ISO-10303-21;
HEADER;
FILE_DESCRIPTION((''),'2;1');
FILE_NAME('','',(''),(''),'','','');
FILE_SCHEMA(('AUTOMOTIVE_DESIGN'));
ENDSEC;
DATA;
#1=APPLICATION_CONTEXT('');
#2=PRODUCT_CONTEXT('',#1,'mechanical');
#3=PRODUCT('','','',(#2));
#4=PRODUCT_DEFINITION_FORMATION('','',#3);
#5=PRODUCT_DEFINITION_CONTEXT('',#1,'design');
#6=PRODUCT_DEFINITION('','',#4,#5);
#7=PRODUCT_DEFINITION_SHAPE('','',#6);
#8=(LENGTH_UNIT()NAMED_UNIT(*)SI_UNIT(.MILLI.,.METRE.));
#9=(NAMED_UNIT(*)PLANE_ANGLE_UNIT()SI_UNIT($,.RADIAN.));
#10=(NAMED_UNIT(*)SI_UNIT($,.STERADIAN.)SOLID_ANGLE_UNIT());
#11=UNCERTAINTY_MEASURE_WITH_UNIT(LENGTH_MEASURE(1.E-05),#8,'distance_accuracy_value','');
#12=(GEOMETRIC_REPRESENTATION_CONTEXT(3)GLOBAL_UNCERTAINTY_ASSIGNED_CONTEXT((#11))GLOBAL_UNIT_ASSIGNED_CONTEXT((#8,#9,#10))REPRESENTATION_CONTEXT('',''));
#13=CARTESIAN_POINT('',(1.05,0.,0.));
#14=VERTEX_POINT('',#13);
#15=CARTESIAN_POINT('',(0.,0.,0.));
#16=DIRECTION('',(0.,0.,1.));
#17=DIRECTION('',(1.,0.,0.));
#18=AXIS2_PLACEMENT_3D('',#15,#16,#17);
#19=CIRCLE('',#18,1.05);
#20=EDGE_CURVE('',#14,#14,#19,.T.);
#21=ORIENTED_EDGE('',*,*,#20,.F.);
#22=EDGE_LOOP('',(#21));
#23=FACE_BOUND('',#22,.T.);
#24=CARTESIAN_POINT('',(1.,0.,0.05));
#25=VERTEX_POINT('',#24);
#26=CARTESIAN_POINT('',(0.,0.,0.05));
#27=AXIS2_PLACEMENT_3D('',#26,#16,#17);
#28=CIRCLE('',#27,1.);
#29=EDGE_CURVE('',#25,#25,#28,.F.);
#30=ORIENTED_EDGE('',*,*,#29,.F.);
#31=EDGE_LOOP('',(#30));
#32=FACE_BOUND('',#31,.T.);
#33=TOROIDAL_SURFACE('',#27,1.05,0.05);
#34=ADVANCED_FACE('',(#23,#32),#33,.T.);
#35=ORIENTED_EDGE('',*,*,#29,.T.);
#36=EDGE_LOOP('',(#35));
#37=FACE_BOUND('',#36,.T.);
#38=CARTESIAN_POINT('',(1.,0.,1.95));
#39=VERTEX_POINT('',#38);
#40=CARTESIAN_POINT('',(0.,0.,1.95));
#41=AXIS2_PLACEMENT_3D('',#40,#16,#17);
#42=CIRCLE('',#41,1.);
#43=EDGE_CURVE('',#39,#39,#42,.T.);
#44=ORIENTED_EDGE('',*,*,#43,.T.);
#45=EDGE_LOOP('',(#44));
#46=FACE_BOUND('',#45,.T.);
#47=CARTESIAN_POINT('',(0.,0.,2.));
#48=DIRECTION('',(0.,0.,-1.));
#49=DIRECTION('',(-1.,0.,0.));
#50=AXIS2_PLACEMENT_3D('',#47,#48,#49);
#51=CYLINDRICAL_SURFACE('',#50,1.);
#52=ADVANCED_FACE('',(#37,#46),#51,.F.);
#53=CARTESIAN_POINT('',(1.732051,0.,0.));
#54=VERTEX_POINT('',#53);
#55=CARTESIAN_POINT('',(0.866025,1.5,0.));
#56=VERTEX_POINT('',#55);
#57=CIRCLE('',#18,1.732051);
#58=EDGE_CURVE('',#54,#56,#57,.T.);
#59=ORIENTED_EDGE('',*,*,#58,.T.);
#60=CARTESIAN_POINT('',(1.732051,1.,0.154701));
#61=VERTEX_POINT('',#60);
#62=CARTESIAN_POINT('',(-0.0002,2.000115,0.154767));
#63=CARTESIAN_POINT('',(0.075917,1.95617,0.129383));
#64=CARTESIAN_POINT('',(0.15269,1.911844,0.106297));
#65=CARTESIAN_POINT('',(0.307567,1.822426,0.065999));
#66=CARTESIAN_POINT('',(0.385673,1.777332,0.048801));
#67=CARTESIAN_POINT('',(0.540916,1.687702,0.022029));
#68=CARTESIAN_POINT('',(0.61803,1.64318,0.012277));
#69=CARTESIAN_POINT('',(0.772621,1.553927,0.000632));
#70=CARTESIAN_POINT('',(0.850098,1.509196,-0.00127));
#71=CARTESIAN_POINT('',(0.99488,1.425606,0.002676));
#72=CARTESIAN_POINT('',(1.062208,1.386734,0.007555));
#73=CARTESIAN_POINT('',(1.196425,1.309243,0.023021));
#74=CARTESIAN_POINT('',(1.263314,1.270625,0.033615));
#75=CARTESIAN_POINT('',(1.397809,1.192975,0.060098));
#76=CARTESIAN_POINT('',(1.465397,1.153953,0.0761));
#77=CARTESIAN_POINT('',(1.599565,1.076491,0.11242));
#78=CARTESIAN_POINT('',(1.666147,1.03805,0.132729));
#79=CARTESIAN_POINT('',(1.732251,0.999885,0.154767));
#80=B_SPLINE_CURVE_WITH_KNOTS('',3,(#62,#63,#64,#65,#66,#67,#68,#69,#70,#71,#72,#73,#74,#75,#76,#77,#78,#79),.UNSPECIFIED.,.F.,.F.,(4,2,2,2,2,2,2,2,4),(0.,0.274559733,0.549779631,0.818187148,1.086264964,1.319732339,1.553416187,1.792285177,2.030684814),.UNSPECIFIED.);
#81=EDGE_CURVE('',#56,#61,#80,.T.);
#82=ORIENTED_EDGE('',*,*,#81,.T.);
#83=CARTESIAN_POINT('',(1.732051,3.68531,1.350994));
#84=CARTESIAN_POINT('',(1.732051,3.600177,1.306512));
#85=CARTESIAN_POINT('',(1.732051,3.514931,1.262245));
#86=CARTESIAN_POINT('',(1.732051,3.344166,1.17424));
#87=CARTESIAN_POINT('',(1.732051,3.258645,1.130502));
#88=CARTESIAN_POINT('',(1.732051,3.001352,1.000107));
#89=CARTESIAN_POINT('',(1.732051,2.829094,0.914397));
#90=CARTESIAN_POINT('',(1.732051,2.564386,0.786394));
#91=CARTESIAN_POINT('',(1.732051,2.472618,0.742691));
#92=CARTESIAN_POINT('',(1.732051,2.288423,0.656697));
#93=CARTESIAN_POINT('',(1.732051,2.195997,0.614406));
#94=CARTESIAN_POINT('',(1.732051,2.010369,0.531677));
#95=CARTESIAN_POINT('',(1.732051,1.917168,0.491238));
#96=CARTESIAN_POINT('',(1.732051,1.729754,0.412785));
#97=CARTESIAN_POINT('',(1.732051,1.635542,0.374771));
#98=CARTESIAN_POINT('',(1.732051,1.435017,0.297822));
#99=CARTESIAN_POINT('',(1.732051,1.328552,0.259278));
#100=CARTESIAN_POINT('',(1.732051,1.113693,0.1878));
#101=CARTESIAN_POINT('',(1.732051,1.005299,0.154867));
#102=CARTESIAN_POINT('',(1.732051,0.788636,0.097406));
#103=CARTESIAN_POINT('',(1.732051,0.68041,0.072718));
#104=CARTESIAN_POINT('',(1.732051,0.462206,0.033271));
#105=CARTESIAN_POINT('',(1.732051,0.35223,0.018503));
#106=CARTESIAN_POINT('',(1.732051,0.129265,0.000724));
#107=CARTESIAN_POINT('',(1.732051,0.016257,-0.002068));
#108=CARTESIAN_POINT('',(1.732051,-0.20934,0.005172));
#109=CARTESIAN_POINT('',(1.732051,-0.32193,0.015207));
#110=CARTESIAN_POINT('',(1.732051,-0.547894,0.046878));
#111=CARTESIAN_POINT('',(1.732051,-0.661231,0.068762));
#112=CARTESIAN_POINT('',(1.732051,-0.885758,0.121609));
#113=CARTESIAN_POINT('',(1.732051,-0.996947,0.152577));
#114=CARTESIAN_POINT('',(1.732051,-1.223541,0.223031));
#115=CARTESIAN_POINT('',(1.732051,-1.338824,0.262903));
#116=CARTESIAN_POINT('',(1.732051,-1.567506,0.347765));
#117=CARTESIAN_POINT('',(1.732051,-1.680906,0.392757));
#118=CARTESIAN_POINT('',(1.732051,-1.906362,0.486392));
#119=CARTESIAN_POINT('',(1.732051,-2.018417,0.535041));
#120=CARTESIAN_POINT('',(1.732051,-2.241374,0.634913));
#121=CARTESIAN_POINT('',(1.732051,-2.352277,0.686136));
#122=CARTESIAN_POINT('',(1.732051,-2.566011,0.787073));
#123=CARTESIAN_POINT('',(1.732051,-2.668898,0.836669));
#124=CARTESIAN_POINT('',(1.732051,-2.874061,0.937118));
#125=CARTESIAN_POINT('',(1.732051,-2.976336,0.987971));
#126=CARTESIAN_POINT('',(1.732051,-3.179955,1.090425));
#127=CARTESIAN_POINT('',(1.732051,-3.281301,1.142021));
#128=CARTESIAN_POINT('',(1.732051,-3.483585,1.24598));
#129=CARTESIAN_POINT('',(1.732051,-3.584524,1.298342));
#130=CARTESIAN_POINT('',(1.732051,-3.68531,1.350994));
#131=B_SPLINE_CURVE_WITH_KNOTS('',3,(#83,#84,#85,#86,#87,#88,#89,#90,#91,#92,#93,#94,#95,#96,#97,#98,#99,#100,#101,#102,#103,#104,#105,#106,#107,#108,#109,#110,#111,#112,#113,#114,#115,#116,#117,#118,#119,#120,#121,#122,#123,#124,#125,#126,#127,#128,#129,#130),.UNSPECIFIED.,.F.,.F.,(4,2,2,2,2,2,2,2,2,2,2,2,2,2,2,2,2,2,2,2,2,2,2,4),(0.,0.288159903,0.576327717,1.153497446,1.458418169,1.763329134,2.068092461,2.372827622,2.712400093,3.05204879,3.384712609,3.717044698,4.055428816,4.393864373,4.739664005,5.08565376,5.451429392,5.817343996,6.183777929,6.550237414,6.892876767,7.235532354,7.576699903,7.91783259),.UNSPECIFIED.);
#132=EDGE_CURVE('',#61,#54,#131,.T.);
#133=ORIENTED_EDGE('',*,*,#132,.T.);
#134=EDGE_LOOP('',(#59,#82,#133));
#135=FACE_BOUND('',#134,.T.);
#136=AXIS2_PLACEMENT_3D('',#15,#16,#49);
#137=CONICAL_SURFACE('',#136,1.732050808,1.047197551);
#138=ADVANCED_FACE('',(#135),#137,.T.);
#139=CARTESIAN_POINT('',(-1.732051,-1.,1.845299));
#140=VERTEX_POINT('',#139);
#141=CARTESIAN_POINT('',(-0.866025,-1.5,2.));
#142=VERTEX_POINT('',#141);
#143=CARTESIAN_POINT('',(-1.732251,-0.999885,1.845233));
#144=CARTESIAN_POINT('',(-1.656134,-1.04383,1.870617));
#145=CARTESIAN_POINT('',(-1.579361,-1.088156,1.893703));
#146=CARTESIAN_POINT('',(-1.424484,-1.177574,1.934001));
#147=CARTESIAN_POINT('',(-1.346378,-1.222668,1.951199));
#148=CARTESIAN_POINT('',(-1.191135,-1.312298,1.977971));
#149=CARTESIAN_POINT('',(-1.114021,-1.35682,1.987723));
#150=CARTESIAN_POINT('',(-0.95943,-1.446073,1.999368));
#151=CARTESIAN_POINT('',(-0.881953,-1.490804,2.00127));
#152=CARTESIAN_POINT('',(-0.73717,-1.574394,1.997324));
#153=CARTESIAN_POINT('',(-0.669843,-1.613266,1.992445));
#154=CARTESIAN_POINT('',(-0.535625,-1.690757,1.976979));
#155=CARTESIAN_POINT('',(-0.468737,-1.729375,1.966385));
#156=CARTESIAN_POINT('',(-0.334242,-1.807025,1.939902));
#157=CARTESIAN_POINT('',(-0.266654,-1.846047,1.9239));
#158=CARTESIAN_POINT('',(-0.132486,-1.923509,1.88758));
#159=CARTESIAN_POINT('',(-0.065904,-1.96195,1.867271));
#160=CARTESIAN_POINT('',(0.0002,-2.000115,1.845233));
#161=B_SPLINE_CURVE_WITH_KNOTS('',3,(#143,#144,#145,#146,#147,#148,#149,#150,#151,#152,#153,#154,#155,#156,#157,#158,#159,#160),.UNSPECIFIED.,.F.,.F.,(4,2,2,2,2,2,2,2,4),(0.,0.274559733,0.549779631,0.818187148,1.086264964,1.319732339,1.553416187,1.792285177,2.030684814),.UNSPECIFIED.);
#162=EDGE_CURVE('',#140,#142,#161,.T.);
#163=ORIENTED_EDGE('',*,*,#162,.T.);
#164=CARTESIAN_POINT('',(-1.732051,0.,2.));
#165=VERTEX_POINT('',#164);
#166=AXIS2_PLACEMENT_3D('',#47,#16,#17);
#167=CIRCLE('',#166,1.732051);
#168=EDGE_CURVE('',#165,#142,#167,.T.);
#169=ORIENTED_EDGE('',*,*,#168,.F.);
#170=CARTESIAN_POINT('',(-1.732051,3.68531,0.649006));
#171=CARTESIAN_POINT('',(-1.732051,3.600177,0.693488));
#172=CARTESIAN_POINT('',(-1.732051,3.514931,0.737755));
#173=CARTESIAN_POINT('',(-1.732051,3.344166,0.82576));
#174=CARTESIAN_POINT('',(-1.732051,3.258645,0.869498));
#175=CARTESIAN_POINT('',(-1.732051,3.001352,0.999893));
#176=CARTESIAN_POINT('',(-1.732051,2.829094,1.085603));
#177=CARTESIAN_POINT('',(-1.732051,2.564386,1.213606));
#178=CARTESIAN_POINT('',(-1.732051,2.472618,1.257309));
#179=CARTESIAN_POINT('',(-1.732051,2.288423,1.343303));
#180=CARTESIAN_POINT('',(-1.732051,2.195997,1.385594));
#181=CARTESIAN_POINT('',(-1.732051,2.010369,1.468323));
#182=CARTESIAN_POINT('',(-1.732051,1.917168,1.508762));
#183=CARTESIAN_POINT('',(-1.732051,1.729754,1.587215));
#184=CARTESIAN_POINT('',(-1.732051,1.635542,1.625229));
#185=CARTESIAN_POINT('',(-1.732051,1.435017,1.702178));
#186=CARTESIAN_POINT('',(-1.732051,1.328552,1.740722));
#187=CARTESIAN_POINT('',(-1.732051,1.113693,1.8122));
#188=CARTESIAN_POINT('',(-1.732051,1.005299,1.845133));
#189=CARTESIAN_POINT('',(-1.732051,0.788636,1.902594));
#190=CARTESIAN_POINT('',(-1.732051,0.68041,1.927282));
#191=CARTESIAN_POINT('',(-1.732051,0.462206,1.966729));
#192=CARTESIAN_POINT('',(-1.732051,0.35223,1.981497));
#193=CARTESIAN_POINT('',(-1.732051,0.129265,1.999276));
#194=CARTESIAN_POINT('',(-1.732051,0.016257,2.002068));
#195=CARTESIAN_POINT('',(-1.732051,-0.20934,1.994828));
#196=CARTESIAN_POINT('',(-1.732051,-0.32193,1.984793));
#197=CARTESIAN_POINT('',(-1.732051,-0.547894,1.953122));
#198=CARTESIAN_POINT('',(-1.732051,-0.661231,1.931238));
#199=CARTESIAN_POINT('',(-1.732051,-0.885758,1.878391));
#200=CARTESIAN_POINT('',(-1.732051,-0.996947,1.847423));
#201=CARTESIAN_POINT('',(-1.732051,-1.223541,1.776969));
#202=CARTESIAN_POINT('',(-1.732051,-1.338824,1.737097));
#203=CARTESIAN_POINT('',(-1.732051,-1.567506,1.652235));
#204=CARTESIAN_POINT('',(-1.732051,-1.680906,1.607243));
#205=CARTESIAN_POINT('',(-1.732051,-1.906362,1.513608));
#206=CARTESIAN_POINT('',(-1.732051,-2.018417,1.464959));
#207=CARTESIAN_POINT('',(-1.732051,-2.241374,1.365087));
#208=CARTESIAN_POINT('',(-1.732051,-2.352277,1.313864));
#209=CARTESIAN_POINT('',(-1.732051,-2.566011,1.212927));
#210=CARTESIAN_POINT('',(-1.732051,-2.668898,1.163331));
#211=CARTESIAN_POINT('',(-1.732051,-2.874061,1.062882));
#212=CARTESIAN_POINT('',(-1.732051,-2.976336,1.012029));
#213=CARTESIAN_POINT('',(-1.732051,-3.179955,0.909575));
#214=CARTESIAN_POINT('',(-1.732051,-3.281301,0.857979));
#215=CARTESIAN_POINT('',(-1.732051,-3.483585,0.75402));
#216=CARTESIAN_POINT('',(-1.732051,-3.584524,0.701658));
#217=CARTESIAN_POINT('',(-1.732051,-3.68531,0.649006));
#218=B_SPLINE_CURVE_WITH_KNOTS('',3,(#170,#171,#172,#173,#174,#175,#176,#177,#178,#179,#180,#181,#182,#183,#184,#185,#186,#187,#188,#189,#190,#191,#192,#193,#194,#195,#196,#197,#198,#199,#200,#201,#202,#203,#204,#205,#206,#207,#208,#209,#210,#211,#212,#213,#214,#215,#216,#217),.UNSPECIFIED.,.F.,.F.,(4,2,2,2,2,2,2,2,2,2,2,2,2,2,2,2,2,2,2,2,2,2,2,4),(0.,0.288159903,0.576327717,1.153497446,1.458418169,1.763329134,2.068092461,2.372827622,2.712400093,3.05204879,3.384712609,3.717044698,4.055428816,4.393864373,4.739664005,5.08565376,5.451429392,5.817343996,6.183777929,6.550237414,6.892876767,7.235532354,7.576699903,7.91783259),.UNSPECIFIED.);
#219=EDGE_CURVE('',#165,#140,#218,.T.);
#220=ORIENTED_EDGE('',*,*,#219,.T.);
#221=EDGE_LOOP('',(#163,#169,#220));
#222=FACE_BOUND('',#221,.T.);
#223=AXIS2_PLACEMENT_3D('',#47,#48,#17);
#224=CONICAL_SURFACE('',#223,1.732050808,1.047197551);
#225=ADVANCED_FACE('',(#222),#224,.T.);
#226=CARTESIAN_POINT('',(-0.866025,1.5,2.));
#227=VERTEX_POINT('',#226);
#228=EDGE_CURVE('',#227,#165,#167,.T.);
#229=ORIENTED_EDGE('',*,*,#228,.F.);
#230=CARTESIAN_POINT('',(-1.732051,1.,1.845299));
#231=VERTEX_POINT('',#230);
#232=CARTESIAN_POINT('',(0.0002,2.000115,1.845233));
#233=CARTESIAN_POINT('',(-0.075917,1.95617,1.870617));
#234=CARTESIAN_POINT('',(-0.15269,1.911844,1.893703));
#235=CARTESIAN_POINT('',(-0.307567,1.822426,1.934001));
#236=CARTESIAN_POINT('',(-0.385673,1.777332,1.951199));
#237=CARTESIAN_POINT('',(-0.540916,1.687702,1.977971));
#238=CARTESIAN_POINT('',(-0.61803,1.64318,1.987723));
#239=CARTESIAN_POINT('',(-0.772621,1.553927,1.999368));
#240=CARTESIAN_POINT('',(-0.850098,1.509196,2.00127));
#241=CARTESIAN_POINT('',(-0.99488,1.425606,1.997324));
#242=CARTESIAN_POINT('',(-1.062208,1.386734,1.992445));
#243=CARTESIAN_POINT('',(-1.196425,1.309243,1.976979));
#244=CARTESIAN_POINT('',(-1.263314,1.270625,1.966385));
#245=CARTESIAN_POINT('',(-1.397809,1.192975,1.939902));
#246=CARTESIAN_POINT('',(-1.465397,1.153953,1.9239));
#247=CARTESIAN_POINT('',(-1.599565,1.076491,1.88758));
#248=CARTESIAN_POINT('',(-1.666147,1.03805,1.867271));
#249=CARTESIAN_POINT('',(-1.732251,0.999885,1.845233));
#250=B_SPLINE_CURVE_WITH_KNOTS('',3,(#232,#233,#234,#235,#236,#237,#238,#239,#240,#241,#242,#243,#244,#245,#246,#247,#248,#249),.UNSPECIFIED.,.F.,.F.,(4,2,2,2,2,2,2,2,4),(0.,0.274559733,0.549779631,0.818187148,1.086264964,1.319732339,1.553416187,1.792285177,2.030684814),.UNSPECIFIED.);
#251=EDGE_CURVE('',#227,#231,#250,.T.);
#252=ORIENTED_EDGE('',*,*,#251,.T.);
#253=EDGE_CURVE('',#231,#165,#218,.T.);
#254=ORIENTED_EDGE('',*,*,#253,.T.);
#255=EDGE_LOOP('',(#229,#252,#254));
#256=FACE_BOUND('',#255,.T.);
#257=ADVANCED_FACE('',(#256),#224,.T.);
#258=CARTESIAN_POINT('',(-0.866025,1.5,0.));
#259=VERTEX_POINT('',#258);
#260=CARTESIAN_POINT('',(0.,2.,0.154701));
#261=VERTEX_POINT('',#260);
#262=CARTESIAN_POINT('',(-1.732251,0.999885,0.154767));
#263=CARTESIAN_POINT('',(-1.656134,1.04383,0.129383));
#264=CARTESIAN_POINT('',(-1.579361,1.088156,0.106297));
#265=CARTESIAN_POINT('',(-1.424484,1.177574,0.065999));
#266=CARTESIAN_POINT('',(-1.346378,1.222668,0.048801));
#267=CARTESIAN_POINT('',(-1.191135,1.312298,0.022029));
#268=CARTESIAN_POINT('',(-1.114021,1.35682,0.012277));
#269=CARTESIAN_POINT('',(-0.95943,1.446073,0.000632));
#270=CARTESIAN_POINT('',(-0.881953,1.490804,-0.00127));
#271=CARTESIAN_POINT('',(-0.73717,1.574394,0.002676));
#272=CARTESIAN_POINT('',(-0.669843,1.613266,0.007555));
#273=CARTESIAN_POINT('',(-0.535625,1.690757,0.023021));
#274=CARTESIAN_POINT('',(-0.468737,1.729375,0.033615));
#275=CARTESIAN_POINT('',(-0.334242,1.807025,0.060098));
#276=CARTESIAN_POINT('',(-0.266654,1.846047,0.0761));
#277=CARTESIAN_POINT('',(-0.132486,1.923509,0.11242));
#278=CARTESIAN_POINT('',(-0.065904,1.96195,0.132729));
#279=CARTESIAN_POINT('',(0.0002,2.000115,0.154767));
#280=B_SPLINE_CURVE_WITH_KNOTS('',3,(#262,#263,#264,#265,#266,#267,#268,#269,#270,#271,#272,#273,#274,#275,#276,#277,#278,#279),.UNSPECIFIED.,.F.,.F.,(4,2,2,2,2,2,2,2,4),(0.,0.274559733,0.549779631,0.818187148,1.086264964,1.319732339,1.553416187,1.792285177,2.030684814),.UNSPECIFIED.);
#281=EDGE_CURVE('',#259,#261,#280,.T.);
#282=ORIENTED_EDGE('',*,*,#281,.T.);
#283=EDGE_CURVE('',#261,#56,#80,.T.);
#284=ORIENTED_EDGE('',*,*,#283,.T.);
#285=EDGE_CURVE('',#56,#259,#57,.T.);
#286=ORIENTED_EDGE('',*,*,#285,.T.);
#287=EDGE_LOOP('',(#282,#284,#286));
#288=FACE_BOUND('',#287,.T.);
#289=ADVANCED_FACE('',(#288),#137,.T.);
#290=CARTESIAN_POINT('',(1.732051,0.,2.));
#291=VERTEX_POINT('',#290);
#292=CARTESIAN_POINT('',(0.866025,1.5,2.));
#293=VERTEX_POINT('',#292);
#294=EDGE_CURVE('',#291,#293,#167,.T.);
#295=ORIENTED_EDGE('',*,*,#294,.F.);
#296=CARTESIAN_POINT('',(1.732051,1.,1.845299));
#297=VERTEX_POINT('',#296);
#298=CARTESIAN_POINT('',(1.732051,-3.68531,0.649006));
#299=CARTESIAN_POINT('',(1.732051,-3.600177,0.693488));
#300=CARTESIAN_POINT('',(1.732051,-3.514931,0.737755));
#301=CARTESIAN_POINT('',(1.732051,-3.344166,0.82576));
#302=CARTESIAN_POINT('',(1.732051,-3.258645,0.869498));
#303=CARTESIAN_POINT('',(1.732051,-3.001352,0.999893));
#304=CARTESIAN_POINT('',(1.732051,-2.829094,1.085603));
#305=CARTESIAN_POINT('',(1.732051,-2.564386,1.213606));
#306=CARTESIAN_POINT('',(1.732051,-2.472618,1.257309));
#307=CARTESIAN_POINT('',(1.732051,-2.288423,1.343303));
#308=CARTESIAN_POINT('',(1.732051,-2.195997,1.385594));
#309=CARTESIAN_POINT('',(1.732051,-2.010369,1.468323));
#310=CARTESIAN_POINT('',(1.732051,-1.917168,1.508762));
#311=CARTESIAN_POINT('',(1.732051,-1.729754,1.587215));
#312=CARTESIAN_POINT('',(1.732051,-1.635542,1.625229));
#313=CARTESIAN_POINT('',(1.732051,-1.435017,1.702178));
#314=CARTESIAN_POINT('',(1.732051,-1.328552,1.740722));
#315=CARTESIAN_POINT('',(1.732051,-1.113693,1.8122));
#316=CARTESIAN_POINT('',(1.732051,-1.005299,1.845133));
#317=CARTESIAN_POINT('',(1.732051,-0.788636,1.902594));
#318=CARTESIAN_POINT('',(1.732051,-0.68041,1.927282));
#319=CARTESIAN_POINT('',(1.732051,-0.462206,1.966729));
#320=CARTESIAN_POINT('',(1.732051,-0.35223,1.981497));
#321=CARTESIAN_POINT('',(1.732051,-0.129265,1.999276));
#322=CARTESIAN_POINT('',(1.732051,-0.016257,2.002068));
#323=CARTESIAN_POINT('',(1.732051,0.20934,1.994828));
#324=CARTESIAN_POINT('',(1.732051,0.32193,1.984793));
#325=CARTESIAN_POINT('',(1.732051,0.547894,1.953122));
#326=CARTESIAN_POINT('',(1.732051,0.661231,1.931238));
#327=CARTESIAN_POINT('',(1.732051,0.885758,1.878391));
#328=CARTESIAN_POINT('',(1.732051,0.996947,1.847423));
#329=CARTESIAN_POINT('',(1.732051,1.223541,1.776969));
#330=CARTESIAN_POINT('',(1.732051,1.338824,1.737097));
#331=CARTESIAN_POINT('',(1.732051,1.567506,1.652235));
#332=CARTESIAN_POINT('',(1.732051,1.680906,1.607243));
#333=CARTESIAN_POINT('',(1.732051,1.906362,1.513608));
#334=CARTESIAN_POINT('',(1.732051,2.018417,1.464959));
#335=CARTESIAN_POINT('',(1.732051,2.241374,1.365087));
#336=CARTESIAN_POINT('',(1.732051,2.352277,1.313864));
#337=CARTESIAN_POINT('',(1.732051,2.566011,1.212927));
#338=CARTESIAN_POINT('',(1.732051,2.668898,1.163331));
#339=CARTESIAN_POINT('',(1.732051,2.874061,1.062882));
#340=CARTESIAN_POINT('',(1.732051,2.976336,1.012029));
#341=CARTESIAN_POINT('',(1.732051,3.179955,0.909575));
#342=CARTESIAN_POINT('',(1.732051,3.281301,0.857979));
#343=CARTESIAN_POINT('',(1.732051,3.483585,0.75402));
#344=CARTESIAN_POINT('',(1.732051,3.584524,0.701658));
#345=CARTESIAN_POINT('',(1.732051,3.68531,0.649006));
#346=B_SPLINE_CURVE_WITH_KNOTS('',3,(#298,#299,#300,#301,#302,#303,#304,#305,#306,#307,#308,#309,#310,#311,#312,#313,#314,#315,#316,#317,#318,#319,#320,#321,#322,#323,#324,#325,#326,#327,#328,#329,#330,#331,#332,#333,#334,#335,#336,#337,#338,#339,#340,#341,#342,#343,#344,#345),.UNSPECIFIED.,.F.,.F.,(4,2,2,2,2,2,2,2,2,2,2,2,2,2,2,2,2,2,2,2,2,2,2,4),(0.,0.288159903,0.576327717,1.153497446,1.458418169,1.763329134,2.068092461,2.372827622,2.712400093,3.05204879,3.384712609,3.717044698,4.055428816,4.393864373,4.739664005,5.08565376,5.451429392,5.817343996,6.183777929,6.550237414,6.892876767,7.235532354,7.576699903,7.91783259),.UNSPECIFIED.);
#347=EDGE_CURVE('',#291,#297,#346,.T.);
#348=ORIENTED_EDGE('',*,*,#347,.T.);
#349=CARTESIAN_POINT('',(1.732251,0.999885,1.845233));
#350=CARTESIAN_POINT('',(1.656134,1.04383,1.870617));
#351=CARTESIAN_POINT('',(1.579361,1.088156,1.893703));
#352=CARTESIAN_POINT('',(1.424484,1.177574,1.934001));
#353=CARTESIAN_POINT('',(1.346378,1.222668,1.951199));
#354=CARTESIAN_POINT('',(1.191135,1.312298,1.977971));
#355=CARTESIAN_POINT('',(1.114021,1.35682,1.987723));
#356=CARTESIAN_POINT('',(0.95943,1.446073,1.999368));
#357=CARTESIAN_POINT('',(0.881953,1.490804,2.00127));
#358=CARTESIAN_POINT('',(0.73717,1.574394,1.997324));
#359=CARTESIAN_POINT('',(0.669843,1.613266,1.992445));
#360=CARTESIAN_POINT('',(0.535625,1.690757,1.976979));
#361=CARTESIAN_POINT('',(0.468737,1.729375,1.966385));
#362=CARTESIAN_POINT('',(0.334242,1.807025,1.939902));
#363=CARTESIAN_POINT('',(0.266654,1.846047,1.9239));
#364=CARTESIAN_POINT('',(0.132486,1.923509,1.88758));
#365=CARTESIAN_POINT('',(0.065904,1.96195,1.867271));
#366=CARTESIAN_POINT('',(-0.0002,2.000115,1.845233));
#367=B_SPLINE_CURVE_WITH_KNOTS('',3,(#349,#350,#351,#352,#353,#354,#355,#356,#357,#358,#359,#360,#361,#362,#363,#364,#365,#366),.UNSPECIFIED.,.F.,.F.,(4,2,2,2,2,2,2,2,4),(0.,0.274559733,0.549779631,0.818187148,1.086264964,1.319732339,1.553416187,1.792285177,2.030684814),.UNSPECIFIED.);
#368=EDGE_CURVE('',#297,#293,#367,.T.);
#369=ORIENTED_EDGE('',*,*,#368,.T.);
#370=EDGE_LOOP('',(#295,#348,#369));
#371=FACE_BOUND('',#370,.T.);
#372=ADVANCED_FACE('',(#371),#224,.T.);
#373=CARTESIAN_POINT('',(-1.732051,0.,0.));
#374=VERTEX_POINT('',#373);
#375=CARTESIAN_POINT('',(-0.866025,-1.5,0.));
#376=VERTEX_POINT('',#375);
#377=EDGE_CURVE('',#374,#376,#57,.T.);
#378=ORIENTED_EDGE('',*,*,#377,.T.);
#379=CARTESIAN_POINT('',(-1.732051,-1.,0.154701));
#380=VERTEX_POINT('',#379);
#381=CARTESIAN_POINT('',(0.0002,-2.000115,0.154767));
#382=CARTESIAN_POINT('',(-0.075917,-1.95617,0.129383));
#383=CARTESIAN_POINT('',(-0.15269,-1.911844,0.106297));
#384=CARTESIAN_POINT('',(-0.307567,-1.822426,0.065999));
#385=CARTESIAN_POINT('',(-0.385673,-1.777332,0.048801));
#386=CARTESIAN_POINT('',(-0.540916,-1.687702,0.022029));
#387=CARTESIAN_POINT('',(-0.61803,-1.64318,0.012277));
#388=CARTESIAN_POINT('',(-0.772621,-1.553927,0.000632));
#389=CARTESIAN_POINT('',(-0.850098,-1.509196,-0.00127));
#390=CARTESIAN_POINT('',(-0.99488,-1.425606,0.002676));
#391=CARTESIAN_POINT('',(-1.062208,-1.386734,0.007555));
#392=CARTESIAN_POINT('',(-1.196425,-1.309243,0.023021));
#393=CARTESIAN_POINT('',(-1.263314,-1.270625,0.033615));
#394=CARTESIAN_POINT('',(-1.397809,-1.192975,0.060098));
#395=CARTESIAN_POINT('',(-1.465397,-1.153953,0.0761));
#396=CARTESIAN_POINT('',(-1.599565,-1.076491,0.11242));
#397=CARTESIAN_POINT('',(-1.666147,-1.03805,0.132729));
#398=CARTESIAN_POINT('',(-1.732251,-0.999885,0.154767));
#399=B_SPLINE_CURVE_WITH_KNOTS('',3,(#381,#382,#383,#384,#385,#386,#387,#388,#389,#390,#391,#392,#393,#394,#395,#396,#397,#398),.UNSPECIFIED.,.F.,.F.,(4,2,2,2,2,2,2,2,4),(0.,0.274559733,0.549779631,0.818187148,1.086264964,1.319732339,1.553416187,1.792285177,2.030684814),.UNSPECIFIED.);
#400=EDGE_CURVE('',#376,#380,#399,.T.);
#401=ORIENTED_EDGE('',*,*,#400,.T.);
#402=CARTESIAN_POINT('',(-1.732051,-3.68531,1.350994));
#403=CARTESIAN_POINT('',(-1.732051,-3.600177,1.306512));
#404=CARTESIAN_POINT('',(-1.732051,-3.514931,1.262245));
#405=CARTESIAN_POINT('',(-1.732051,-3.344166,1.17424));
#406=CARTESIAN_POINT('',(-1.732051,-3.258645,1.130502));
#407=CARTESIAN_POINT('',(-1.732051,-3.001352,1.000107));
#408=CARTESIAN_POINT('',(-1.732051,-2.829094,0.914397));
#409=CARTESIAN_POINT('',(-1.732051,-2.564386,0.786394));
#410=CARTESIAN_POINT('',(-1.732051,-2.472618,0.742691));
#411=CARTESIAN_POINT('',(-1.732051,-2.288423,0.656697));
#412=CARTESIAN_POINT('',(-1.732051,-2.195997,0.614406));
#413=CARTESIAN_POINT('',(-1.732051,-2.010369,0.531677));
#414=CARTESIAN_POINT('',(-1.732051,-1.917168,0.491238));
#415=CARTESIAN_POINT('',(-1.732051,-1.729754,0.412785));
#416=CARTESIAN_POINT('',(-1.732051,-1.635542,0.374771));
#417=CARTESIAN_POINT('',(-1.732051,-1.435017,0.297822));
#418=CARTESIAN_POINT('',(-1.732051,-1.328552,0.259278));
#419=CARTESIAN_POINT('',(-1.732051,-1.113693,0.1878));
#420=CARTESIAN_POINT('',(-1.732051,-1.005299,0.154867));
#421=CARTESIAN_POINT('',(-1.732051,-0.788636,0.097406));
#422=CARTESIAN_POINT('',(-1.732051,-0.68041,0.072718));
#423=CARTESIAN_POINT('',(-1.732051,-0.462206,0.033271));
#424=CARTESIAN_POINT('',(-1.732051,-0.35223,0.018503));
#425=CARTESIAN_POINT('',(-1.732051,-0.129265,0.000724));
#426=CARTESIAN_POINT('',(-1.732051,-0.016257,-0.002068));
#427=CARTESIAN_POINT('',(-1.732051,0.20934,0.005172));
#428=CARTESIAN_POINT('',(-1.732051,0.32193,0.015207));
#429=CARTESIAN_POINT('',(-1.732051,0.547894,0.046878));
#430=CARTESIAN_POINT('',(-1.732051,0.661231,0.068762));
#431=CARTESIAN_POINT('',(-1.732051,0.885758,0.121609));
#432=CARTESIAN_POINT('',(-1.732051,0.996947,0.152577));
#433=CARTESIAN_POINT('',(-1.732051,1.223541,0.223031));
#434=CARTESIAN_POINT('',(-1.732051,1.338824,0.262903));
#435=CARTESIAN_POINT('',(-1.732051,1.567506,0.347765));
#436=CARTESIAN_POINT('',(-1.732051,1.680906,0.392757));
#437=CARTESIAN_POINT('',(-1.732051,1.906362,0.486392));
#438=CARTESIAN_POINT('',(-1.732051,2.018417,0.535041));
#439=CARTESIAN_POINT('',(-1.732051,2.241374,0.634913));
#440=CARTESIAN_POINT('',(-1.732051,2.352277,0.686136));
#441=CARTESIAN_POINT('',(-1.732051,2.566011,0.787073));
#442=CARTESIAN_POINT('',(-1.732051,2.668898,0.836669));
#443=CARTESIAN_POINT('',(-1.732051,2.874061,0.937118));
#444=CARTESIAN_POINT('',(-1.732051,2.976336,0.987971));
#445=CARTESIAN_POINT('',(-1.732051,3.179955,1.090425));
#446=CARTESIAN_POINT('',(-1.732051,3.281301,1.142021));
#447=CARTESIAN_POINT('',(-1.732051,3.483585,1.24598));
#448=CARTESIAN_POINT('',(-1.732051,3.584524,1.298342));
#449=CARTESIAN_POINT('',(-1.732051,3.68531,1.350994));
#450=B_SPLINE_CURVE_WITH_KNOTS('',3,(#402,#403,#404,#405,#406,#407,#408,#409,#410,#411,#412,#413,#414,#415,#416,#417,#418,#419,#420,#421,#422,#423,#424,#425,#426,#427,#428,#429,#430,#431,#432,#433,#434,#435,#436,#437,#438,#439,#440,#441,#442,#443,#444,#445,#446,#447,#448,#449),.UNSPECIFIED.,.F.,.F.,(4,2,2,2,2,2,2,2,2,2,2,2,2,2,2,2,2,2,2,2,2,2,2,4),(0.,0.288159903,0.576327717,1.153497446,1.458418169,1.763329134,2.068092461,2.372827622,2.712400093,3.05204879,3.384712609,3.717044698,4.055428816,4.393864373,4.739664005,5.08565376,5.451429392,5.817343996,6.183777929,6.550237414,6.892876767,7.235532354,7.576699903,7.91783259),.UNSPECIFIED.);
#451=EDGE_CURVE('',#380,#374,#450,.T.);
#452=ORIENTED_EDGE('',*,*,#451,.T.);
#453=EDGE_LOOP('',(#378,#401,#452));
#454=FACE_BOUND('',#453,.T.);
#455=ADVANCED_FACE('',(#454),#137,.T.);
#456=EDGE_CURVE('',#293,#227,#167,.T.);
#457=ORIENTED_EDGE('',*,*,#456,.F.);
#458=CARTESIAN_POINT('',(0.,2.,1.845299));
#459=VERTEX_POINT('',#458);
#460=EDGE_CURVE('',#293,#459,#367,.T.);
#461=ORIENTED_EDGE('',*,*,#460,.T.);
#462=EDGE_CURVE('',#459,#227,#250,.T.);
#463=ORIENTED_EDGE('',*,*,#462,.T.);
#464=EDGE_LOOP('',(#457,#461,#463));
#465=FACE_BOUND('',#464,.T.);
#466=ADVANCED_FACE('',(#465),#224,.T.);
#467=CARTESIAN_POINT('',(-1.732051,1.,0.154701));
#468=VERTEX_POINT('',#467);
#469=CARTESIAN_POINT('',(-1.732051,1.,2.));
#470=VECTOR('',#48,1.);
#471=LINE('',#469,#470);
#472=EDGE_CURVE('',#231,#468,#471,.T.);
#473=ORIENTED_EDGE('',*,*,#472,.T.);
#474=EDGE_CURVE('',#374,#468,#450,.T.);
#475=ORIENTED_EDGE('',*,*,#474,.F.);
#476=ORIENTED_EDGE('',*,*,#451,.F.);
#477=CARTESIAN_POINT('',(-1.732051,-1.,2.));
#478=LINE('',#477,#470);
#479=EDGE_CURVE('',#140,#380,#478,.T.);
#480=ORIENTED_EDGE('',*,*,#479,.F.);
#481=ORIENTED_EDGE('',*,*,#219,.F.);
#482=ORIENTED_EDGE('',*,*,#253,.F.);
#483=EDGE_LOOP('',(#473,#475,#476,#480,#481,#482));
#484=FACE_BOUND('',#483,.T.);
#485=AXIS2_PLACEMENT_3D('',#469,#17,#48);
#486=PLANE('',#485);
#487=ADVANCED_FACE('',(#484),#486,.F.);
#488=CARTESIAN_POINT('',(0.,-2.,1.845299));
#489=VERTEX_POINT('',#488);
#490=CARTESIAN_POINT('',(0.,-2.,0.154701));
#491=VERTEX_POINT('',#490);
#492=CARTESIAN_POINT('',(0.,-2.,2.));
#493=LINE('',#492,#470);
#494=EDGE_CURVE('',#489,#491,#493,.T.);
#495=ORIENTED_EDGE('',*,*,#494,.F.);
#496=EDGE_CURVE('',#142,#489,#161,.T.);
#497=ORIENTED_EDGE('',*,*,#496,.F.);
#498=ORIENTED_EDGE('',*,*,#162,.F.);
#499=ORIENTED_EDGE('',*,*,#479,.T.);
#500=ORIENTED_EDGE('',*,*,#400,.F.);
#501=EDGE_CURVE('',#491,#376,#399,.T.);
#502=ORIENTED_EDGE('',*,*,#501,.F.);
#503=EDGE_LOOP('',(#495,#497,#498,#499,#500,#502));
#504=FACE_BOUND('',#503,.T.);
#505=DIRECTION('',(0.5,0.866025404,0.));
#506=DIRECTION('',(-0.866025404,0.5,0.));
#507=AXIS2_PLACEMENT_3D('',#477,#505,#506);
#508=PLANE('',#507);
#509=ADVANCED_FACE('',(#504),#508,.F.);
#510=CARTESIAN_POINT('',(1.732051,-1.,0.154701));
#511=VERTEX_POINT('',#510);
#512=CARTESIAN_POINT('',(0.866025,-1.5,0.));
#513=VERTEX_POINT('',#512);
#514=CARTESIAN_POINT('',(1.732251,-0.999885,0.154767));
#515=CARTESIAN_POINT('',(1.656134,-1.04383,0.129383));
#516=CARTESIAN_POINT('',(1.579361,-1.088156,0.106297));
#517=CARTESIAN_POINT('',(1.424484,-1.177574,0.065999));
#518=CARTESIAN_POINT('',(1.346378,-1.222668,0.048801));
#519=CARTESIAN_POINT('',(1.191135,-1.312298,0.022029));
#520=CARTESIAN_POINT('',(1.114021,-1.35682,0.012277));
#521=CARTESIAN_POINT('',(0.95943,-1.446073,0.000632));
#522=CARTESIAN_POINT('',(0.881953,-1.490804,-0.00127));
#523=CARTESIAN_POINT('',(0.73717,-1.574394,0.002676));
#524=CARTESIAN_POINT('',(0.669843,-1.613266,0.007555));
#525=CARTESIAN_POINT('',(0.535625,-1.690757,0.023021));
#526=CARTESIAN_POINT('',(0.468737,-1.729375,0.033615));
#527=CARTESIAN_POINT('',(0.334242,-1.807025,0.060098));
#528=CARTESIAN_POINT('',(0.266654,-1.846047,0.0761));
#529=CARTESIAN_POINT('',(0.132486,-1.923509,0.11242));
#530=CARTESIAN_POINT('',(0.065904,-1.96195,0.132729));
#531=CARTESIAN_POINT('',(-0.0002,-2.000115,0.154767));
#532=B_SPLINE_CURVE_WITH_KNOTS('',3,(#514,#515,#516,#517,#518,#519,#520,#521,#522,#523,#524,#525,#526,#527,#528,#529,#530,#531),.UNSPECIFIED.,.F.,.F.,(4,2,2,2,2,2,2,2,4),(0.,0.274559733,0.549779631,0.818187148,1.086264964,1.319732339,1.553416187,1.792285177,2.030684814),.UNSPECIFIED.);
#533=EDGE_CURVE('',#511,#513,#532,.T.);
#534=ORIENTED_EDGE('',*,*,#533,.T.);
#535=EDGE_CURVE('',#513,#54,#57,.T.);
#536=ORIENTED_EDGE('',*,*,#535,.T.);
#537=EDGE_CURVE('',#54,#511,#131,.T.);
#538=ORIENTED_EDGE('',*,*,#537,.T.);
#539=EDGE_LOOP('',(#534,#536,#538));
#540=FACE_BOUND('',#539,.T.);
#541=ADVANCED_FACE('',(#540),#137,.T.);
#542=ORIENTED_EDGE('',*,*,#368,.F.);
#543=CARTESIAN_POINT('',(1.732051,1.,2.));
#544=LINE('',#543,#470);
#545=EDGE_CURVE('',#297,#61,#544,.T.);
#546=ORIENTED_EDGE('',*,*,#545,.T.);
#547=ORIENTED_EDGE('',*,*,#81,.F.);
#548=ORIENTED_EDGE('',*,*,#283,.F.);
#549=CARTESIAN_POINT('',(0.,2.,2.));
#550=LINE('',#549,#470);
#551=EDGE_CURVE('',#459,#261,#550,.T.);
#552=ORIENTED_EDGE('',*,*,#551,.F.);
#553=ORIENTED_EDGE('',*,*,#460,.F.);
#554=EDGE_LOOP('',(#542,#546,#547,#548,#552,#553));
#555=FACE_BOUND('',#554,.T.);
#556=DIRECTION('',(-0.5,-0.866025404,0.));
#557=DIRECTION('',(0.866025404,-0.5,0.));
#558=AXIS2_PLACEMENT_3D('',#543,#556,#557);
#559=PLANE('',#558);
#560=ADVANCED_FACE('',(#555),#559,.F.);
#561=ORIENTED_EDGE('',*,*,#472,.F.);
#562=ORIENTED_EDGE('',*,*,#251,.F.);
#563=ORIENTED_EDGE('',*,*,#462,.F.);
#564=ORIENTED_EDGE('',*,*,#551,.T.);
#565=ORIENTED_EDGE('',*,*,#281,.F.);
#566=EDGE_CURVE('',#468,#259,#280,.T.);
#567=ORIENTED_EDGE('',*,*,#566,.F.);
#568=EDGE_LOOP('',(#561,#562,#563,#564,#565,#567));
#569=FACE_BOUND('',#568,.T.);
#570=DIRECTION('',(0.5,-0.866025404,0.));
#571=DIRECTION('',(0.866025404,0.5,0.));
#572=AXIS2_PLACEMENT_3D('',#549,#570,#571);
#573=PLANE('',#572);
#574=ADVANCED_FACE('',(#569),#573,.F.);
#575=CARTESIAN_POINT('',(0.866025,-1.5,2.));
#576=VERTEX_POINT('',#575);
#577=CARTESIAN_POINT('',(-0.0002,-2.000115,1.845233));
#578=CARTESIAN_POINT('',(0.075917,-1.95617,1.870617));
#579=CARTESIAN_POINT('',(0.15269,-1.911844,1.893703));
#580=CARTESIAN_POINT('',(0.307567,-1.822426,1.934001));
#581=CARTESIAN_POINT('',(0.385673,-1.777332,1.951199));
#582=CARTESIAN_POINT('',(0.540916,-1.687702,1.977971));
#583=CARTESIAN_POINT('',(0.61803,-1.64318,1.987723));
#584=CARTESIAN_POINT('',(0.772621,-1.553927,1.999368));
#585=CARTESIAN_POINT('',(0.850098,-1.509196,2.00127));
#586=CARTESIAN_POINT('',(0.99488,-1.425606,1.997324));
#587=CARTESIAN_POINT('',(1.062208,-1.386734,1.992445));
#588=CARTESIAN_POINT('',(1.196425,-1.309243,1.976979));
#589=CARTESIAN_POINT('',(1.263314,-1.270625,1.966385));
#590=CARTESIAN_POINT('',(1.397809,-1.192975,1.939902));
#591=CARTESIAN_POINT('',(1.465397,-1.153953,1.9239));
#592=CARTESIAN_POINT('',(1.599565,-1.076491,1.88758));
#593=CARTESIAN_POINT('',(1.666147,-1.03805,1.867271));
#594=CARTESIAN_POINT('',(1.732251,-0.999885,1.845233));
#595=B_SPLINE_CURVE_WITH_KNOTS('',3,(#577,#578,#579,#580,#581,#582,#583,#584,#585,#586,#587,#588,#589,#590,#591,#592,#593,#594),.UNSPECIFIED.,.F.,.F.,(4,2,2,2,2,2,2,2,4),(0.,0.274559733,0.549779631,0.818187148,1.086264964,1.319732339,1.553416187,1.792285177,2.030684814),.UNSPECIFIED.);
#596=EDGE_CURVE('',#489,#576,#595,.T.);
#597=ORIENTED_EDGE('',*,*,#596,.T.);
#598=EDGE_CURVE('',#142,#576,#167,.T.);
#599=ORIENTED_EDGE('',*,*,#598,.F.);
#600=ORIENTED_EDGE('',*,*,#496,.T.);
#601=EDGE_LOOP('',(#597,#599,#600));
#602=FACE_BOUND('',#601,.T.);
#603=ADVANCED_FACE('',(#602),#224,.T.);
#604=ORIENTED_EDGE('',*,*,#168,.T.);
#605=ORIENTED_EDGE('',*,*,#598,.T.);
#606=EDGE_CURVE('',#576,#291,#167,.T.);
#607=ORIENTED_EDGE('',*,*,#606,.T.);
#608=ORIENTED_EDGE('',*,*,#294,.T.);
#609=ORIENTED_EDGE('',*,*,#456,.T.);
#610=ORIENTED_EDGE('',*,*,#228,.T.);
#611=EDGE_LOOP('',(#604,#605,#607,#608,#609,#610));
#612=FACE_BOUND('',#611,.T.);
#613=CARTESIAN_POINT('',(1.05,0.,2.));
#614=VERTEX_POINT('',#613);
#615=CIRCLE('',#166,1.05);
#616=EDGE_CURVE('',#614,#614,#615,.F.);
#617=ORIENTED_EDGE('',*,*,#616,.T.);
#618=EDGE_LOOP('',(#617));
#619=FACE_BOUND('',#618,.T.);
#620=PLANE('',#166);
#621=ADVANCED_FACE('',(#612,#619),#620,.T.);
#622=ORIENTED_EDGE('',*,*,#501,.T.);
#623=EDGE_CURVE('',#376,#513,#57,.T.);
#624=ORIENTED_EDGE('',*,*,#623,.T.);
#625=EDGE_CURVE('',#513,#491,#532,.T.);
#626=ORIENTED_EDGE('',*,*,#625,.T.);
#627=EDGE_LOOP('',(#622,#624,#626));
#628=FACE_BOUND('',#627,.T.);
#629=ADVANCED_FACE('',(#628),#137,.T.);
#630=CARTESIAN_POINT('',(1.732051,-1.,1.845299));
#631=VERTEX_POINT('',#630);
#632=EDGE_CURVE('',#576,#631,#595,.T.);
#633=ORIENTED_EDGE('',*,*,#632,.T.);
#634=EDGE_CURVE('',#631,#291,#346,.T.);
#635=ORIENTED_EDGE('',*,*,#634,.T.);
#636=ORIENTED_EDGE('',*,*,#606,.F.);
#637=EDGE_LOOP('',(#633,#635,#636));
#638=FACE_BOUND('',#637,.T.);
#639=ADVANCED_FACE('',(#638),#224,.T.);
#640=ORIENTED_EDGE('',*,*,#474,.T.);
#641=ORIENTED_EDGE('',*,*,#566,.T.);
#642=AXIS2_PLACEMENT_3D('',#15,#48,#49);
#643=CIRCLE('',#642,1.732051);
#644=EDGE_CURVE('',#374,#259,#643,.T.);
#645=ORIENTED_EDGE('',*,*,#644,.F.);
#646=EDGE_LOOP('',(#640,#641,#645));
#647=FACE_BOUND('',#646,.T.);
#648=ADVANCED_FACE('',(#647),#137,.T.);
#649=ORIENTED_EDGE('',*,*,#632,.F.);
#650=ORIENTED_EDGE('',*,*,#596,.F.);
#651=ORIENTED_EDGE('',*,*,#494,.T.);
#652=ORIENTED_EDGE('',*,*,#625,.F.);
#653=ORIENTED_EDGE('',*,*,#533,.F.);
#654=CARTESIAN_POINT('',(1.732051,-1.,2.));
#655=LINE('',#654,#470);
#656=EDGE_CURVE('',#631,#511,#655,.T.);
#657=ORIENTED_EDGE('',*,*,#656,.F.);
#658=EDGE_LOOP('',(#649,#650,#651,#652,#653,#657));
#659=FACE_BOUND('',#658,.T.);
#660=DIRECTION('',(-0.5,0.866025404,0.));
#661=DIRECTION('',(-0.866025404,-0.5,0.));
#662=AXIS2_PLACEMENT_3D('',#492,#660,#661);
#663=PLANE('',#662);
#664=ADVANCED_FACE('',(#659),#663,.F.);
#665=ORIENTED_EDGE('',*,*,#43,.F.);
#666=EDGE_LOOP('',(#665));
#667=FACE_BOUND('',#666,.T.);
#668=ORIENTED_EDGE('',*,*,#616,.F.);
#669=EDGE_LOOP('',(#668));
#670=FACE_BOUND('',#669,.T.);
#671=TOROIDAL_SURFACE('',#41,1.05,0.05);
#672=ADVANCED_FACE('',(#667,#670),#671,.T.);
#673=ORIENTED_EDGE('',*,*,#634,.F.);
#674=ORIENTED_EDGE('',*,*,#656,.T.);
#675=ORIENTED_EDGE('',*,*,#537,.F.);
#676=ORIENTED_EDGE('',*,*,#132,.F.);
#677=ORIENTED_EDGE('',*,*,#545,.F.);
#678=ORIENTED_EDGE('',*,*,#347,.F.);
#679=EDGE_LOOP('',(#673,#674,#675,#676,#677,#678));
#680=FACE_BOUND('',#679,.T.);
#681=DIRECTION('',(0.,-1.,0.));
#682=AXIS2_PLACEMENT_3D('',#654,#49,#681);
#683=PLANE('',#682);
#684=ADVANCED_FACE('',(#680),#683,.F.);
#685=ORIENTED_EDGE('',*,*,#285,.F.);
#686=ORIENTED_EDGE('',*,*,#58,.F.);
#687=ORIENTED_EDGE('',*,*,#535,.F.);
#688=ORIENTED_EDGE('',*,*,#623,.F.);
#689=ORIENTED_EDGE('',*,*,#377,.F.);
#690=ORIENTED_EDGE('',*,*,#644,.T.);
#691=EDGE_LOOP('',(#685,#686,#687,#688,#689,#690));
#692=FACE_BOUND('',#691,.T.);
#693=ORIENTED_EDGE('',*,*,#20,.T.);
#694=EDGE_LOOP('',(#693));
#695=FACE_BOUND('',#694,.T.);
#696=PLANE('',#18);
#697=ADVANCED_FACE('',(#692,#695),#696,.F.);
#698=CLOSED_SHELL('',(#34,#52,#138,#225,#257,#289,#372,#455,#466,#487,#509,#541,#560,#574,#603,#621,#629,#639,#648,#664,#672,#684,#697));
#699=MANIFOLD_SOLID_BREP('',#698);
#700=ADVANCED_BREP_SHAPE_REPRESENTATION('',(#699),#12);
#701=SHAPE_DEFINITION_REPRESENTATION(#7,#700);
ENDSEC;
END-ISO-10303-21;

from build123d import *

# Parameters (mm, degrees)
SKETCH1_R           = 1
BOSS_EXTRUDE1_DEPTH = 2
SKETCH7_OUTSIDE_W   = 13.524
SKETCH7_OUTSIDE_H   = 14.06
SKETCH7_OUTSIDE_R   = 1.732050808
CUT_EXTRUDE1_DEPTH  = 2
CUT_EXTRUDE1_DRAFT  = -60
SKETCH9_OUTSIDE_W   = 13.524
SKETCH9_OUTSIDE_H   = 14.06
SKETCH9_OUTSIDE_R   = 1.732050808
CUT_EXTRUDE2_DEPTH  = 2
CUT_EXTRUDE2_DRAFT  = -60
FILLET1_R           = 0.05


with BuildPart() as part:
    # Sketch1 → Boss-Extrude1 (new body)
    with BuildSketch(Plane.XY):
        Polygon((0, 2), (-1.732050808, 1), (-1.732050808, -1), (0, -2), (1.732050808, -1), (1.732050808, 1), align=None)
        Circle(SKETCH1_R, mode=Mode.SUBTRACT)
    extrude(amount=BOSS_EXTRUDE1_DEPTH)


with BuildPart() as cut_extrude1_tool:
    # Sketch7 outside → Cut-Extrude1 (with draft: the straight prism first)
    with BuildSketch(Plane.XY.offset(2)):
        Rectangle(SKETCH7_OUTSIDE_W, SKETCH7_OUTSIDE_H)
        Circle(SKETCH7_OUTSIDE_R, mode=Mode.SUBTRACT)
    extrude(amount=-CUT_EXTRUDE1_DEPTH)
    # Cut-Extrude1: the draft: its side faces are tilted about the plane it starts from
    cut_extrude1_sides = [cut_extrude1_tool.faces().sort_by_distance(p)[0] for p in [
        (0, -7.03, 1),
        (6.762, 0, 1),
        (0, 7.03, 1),
        (-6.762, 0, 1),
        (-1.732050808, 0, 1),
    ]]
    draft(cut_extrude1_sides, Plane.XY.offset(2), CUT_EXTRUDE1_DRAFT)


with BuildPart() as part_1:
    add(part.part)

    # Cut-Extrude1: cut by cut_extrude1_tool
    add(cut_extrude1_tool.part, mode=Mode.SUBTRACT)


with BuildPart() as cut_extrude2_tool:
    # Sketch9 outside → Cut-Extrude2 (with draft: the straight prism first)
    with BuildSketch(Plane(origin=(0, 0, 0), x_dir=(-1, 0, 0), z_dir=(0, 0, -1))):
        Rectangle(SKETCH9_OUTSIDE_W, SKETCH9_OUTSIDE_H)
        Circle(SKETCH9_OUTSIDE_R, mode=Mode.SUBTRACT)
    extrude(amount=-CUT_EXTRUDE2_DEPTH)
    # Cut-Extrude2: the draft: its side faces are tilted about the plane it starts from
    cut_extrude2_sides = [cut_extrude2_tool.faces().sort_by_distance(p)[0] for p in [
        (0, -7.03, 1),
        (-6.762, 0, 1),
        (0, 7.03, 1),
        (6.762, 0, 1),
        (1.732050808, 0, 1),
    ]]
    draft(cut_extrude2_sides, Plane(origin=(0, 0, 0), x_dir=(-1, 0, 0), z_dir=(0, 0, -1)), CUT_EXTRUDE2_DRAFT)


with BuildPart() as part_2:
    add(part_1.part)

    # Cut-Extrude2: cut by cut_extrude2_tool
    add(cut_extrude2_tool.part, mode=Mode.SUBTRACT)

    # Fillet1
    fillet1_edges = [part_2.edges().sort_by_distance(p)[0] for p in [
        (-1, 0, 0),
        (-1, 0, 2),
    ]]
    fillet(fillet1_edges, radius=FILLET1_R)


solid = part_2.part
